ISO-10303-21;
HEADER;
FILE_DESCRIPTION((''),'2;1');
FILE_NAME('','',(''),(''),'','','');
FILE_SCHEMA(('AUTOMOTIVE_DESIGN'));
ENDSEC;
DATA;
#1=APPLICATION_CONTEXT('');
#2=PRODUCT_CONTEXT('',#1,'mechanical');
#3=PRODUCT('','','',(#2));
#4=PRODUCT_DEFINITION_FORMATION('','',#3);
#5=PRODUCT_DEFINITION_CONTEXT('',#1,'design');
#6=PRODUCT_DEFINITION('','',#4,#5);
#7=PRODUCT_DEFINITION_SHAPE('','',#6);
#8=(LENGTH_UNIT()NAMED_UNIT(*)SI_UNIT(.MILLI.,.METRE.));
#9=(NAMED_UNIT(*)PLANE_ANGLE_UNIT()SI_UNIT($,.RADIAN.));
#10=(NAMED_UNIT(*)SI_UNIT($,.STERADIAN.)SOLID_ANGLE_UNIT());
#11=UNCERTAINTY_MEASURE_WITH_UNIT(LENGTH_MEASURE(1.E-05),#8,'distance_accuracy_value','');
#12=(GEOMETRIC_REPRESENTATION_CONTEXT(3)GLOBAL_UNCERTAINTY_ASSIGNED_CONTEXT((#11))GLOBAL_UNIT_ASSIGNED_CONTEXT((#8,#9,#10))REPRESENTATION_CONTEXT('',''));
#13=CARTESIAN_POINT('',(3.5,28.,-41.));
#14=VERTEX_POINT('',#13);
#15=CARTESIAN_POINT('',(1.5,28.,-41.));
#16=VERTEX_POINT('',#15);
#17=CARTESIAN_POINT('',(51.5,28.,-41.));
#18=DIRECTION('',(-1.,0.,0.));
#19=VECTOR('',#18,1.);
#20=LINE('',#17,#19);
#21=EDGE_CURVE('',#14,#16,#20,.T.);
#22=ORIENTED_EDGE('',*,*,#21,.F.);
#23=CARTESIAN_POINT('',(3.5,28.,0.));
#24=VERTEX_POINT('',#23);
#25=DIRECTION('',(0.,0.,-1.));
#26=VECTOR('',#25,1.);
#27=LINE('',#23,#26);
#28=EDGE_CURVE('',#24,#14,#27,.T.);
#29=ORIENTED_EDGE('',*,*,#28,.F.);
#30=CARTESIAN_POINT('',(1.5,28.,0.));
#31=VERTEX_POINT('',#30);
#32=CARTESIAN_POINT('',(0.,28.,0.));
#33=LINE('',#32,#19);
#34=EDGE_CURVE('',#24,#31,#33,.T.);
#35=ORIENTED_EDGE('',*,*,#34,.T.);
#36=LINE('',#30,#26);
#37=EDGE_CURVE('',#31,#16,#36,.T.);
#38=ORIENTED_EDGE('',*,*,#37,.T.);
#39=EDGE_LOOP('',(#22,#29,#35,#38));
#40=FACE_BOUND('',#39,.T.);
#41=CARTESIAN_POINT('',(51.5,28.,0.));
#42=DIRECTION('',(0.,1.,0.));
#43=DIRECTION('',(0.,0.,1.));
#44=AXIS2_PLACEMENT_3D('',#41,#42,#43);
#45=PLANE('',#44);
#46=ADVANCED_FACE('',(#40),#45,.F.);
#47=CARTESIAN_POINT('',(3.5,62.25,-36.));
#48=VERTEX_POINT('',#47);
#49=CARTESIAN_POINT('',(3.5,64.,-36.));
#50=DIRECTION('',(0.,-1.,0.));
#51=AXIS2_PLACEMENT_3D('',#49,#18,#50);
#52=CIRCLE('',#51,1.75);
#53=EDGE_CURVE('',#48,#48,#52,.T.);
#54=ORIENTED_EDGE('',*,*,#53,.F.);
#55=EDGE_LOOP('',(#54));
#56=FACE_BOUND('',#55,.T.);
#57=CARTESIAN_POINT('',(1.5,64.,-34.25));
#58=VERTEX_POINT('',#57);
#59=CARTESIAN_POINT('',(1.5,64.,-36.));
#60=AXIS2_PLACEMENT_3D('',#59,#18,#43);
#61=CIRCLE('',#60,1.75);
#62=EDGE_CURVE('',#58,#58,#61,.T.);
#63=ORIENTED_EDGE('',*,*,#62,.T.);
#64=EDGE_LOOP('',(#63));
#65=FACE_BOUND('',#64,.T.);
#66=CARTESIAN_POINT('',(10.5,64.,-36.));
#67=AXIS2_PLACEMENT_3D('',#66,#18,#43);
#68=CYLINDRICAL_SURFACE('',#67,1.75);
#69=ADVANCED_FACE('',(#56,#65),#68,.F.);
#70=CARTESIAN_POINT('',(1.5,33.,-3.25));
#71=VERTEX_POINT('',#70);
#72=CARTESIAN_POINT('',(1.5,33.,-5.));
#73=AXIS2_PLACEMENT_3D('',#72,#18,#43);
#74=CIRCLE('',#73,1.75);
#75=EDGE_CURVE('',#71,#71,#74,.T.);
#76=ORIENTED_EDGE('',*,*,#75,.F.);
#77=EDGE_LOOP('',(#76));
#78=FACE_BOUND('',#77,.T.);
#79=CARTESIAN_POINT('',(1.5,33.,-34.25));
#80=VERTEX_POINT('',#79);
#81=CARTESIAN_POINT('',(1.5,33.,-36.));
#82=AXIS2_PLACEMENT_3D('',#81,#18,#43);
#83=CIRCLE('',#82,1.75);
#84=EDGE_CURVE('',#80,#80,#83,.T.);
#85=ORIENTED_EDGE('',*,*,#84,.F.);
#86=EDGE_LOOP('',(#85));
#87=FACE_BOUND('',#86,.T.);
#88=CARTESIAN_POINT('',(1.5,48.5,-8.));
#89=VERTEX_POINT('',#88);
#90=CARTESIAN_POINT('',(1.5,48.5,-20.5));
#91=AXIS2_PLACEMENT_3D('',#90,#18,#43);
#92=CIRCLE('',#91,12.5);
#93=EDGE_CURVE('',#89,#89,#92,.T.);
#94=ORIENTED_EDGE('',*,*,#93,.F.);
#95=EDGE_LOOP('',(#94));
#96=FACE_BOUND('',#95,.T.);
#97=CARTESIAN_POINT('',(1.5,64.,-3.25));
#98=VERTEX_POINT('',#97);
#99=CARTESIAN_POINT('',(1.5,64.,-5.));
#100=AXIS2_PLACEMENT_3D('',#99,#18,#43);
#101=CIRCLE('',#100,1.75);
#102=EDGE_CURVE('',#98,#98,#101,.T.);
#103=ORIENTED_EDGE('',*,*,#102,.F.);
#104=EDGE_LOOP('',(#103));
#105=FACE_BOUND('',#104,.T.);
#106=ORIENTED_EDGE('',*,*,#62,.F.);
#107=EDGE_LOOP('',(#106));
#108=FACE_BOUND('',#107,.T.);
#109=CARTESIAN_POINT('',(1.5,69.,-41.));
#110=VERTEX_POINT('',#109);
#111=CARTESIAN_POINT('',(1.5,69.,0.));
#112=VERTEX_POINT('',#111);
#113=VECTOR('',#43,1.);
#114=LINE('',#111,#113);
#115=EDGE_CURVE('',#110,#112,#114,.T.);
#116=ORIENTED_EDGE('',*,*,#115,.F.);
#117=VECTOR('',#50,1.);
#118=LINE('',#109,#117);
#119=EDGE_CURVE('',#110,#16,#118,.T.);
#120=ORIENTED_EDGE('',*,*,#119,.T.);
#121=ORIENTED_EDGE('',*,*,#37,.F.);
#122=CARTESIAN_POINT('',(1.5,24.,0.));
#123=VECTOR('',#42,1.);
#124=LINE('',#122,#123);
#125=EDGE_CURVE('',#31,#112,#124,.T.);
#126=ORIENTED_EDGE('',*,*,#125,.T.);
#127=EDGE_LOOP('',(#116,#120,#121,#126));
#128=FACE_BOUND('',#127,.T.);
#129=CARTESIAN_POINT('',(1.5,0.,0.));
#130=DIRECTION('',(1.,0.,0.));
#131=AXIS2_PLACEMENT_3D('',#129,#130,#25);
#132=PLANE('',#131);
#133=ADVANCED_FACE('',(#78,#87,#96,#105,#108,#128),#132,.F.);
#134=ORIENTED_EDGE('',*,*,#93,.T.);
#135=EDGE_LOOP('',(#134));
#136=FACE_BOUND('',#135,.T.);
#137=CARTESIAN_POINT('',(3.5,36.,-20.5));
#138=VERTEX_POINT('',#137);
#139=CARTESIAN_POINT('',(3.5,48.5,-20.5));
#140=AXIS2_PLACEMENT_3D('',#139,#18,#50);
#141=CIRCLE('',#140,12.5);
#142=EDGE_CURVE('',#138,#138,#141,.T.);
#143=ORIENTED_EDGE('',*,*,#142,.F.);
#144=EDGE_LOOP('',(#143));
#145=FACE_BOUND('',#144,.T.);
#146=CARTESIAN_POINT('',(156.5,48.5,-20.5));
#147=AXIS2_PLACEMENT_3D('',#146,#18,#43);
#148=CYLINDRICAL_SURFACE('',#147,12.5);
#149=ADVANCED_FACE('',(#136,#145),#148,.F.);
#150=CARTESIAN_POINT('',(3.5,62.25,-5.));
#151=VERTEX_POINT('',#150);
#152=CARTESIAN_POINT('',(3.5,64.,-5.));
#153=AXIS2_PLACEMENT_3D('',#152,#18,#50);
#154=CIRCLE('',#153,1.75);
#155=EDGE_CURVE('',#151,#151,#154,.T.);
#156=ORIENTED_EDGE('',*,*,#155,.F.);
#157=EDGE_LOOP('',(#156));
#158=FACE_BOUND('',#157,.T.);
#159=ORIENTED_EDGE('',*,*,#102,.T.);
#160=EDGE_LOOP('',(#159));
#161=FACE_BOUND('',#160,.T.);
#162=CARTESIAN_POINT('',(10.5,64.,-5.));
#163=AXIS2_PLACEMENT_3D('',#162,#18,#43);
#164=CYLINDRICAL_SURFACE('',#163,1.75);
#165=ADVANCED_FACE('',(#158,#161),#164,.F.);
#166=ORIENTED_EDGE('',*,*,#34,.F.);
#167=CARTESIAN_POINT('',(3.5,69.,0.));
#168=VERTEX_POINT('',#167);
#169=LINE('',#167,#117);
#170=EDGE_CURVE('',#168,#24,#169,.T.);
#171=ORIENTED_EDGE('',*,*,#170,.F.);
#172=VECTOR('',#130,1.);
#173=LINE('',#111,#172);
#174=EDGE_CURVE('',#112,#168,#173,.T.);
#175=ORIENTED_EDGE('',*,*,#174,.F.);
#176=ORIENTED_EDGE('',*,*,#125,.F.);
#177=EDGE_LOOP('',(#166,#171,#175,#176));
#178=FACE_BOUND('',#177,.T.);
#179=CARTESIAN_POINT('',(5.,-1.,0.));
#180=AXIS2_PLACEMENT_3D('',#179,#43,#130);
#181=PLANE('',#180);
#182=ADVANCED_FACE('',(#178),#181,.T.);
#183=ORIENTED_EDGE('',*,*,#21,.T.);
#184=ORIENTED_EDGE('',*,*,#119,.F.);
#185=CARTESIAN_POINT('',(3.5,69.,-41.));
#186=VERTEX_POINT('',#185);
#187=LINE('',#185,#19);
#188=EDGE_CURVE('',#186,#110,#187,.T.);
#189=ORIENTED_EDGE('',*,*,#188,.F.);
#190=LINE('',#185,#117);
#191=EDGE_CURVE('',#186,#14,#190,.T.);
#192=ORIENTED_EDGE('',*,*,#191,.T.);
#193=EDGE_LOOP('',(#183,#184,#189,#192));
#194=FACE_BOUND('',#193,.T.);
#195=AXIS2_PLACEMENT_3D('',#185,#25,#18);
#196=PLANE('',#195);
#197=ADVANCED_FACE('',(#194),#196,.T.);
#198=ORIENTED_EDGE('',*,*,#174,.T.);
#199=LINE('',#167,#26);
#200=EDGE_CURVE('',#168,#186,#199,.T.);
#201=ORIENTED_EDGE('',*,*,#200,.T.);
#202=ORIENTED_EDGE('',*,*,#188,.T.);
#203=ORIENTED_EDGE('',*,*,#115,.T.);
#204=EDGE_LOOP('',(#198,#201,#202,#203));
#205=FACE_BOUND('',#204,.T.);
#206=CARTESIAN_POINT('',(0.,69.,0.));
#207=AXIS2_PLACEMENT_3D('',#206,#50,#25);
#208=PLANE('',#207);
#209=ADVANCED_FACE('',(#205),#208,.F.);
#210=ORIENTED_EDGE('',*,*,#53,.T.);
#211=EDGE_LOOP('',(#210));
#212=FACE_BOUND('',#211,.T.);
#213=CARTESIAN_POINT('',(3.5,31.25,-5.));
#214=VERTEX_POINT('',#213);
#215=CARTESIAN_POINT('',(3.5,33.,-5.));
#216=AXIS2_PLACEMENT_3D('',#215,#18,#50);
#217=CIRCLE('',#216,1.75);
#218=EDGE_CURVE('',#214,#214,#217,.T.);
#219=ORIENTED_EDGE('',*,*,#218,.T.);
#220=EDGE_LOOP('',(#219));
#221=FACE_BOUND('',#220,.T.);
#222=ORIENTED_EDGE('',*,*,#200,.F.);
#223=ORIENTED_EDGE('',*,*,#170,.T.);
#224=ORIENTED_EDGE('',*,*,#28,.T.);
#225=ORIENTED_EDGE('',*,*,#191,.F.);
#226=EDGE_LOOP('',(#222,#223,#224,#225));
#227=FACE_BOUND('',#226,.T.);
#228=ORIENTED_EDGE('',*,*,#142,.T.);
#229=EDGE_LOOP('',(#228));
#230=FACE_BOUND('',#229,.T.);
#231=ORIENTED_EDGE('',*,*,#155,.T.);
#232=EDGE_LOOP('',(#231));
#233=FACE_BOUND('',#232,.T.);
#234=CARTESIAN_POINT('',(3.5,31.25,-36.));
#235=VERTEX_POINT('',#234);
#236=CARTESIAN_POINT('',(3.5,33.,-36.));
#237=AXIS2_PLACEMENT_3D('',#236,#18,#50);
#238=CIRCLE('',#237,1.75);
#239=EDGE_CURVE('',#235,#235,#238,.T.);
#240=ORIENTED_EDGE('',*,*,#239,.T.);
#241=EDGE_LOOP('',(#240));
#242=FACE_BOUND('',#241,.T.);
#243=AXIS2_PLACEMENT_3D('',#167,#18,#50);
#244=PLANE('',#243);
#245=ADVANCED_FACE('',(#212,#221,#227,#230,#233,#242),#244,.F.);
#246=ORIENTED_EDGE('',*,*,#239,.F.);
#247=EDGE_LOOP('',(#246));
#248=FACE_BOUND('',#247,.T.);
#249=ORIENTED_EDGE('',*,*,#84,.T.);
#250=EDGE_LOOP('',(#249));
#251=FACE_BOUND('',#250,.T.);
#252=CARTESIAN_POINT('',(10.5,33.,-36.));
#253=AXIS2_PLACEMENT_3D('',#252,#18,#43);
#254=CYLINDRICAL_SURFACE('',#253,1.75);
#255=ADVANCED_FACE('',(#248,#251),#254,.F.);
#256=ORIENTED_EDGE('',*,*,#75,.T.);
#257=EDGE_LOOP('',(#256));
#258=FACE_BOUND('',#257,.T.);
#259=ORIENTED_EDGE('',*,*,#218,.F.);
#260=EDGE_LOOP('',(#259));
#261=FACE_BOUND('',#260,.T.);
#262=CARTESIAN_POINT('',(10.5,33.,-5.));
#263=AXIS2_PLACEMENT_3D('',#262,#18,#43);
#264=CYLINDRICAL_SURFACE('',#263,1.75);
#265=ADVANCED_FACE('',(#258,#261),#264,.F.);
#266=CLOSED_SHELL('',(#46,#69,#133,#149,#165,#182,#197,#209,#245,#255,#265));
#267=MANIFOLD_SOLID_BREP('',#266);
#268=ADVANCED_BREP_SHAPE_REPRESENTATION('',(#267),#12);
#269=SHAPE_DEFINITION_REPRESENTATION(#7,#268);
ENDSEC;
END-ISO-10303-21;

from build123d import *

# Parameters (mm, degrees)
BOSS_EXTRUDE2_DEPTH          = 8
BOSS_EXTRUDE2_DEPTH_BACK     = 1
SKETCH1_R                    = 2.5
CUT_EXTRUDE1_DEPTH           = 79.300702423
CUT_EXTRUDE1_DEPTH_BACK      = 79.300702423
SKETCH2_R                    = 2.5
SKETCH3_R                    = 3.25
CUT_EXTRUDE5_DEPTH           = 15
CUT_EXTRUDE5_DRAFT           = -0.0573
CUT_EXTRUDE5_PROFILE_2_DEPTH = 15
CUT_EXTRUDE5_PROFILE_2_DRAFT = -0.0573
SKETCH5_W                    = 4.5
SKETCH5_H                    = 6.5
BOSS_EXTRUDE3_DEPTH          = 14.5
SKETCH6_R                    = 4
CUT_EXTRUDE4_DEPTH           = 1.5
SKETCH12_W                   = 10.5
SKETCH12_H                   = 30
BOSS_EXTRUDE7_DEPTH          = 9
SKETCH15_W                   = 9
SKETCH15_H                   = 6.5
BOSS_EXTRUDE8_DEPTH          = 3.5
BOSS_EXTRUDE9_DEPTH          = 54
FILLET4_R                    = 5
SKETCH18_W                   = 9.873697418
SKETCH18_H                   = 6.5
BOSS_EXTRUDE11_DEPTH         = 0.5
SKETCH20_W                   = 4
SKETCH20_H                   = 17.5
BOSS_EXTRUDE12_DEPTH         = 18
BOSS_EXTRUDE13_DEPTH         = 11
BOSS_EXTRUDE13_DEPTH_BACK    = 4
SKETCH22_W                   = 17.5
SKETCH22_H                   = 4
SKETCH25_W                   = 2
SKETCH25_H                   = 17.5
BOSS_EXTRUDE14_DEPTH         = 41
SKETCH28_W                   = 41
SKETCH28_H                   = 45
BOSS_EXTRUDE15_DEPTH         = 2
SKETCH29_R                   = 1.75
CUT_EXTRUDE8_DEPTH           = 9
BOSS_EXTRUDE16_DEPTH         = 9
BOSS_EXTRUDE16_DEPTH_BACK    = 4
SKETCH30_W                   = 17.5
SKETCH30_H                   = 2
CUT_EXTRUDE9_DEPTH           = 9
SKETCH32_W                   = 13
SKETCH32_H                   = 4
BOSS_EXTRUDE17_DEPTH         = 23.5
SKETCH33_W                   = 0.5
SKETCH33_H                   = 17.5
BOSS_EXTRUDE18_DEPTH         = 20
SKETCH34_W                   = 4.5
SKETCH34_H                   = 25
SKETCH34_W_2                 = 15.5
SKETCH34_H_2                 = 4
SKETCH34_W_3                 = 9
BOSS_EXTRUDE19_DEPTH         = 26
SKETCH35_W                   = 9.873697418
SKETCH35_H                   = 0.5
BOSS_EXTRUDE20_DEPTH         = 47.5
BOSS_EXTRUDE21_DEPTH         = 47.5
SKETCH38_W                   = 0.419549816
SKETCH38_H                   = 18.5
CUT_EXTRUDE10_DEPTH          = 90.5
SKETCH39_W                   = 4
SKETCH39_H                   = 4
BOSS_EXTRUDE23_DEPTH         = 47.5
SKETCH46_W                   = 22.5
SKETCH46_H                   = 9
SKETCH46_W_2                 = 5
BOSS_EXTRUDE26_DEPTH         = 11.5
SKETCH47_W                   = 27.5
SKETCH47_H                   = 9
BOSS_EXTRUDE27_DEPTH         = 11
SKETCH48_W                   = 5
SKETCH48_H                   = 6.5
BOSS_EXTRUDE31_DEPTH         = 18.5
SKETCH50_R                   = 4
CUT_EXTRUDE11_DEPTH          = 1.5
SKETCH51_W                   = 9.626242636
SKETCH51_H                   = 9.125298808
BOSS_EXTRUDE32_DEPTH         = 1.5
BOSS_EXTRUDE35_DEPTH         = 47.5
SKETCH55_W                   = 9.873697418
SKETCH55_H                   = 0.5
CUT_EXTRUDE12_DEPTH          = 47.5
SKETCH56_W                   = 0.5
SKETCH56_H                   = 20
BOSS_EXTRUDE36_DEPTH         = 43.5
BOSS_EXTRUDE37_DEPTH         = 47.5
SKETCH58_W                   = 0.715052156
SKETCH58_H                   = 9.51279705
CUT_EXTRUDE13_DEPTH          = 4
CUT_EXTRUDE15_DEPTH          = 47.5
SKETCH60_W                   = 0.215052156
SKETCH60_H                   = 9.51279705
CUT_EXTRUDE16_DEPTH          = 47.5
CUT_EXTRUDE17_DEPTH          = 47.5
SKETCH62_W                   = 8
SKETCH62_H                   = 8
CUT_EXTRUDE18_DEPTH          = 47.5
SKETCH63_W                   = 13
SKETCH63_H                   = 4
CUT_EXTRUDE20_DEPTH          = 17
SKETCH64_W                   = 1
SKETCH64_H                   = 1.5
BOSS_EXTRUDE38_DEPTH         = 6.5
SKETCH65_W                   = 7
SKETCH65_H                   = 3
CUT_EXTRUDE21_DEPTH          = 1.5
BOSS_EXTRUDE39_START         = -2
BOSS_EXTRUDE39_DEPTH         = 2
CUT_EXTRUDE22_DEPTH          = 155
CUT_EXTRUDE23_DEPTH          = 97.458540317
CUT_EXTRUDE23_DEPTH_BACK     = 97.458540317
SKETCH69_W                   = 41
SKETCH69_H                   = 4
SKETCH69_W_2                 = 26
CUT_EXTRUDE24_DEPTH          = 95.562148876


with BuildPart() as part:
    # Sketch1 → Boss-Extrude2 (new, two sides: drawn at the far end of the back side and taken through both)
    with BuildSketch(Plane(origin=(0, 0, 0), x_dir=(1, 0, 0), z_dir=(0, 1, 0)).offset(-BOSS_EXTRUDE2_DEPTH_BACK)):
        with BuildLine():
            Line((5, 0), (50, 0))
            ThreePointArc((50, 0), (53.535533906, 1.464466094), (55, 5))
            Line((55, 5), (55, 50))
            ThreePointArc((55, 50), (53.535533906, 53.535533906), (50, 55))
            Line((50, 55), (5, 55))
            ThreePointArc((5, 55), (1.464466094, 53.535533906), (0, 50))
            Line((0, 50), (0, 5))
            ThreePointArc((0, 5), (1.464466094, 1.464466094), (5, 0))
        make_face()
        with Locations(Location((7.5, 47.5, 0), (0, 0, 270))):
            Circle(SKETCH1_R, mode=Mode.SUBTRACT)
        with Locations(Location((47.5, 47.5, 0), (0, 0, 270))):
            Circle(SKETCH1_R, mode=Mode.SUBTRACT)
        with Locations(Location((47.5, 7.5, 0), (0, 0, 270))):
            Circle(SKETCH1_R, mode=Mode.SUBTRACT)
        with Locations(Location((7.5, 7.5, 0), (0, 0, 270))):
            Circle(SKETCH1_R, mode=Mode.SUBTRACT)
    extrude(amount=BOSS_EXTRUDE2_DEPTH + BOSS_EXTRUDE2_DEPTH_BACK)

    # Sketch2 → Cut-Extrude1 (cut, two sides: drawn at the far end of the back side and taken through both)
    with BuildSketch(Plane(origin=(0, 8, 0), x_dir=(1, 0, 0), z_dir=(0, 1, 0)).offset(-CUT_EXTRUDE1_DEPTH_BACK)):
        with BuildLine():
            Line((0, 50), (0, 27.5))
            Line((0, 27.5), (55, 27.5))
            Line((55, 27.5), (55, 50))
            ThreePointArc((55, 50), (53.535533906, 53.535533906), (50, 55))
            Line((50, 55), (5, 55))
            ThreePointArc((5, 55), (1.464466094, 53.535533906), (0, 50))
        make_face()
        with Locations((7.5, 47.5)):
            Circle(SKETCH2_R, mode=Mode.SUBTRACT)
        with Locations((47.5, 47.5)):
            Circle(SKETCH2_R, mode=Mode.SUBTRACT)
    extrude(amount=CUT_EXTRUDE1_DEPTH + CUT_EXTRUDE1_DEPTH_BACK, mode=Mode.SUBTRACT)


with BuildPart() as cut_extrude5_tool:
    # Sketch3 → Cut-Extrude5 (with draft: the straight prism first)
    with BuildSketch(Plane(origin=(0, 0, -27.5), x_dir=(-1, 0, 0), z_dir=(0, 0, -1))):
        with Locations((-37.5, 3.5)):
            Circle(SKETCH3_R)
    extrude(amount=-CUT_EXTRUDE5_DEPTH)
    # Cut-Extrude5: the draft: its side faces are tilted about the plane it starts from
    cut_extrude5_sides = [cut_extrude5_tool.faces().sort_by_distance(p)[0] for p in [
        (40.75, 3.5, -20),
    ]]
    draft(cut_extrude5_sides, Plane(origin=(0, 0, -27.5), x_dir=(-1, 0, 0), z_dir=(0, 0, -1)), CUT_EXTRUDE5_DRAFT)


with BuildPart() as part_1:
    add(part.part)

    # Cut-Extrude5: cut by cut_extrude5_tool
    add(cut_extrude5_tool.part, mode=Mode.SUBTRACT)


with BuildPart() as cut_extrude5_profile_2_tool:
    # Sketch3 → Cut-Extrude5 profile 2 (with draft: the straight prism first)
    with BuildSketch(Plane(origin=(0, 0, -27.5), x_dir=(-1, 0, 0), z_dir=(0, 0, -1))):
        with Locations((-17.5, 3.5)):
            Circle(SKETCH3_R)
    extrude(amount=-CUT_EXTRUDE5_PROFILE_2_DEPTH)
    # Cut-Extrude5 profile 2: the draft: its side faces are tilted about the plane it starts from
    cut_extrude5_profile_2_sides = [cut_extrude5_profile_2_tool.faces().sort_by_distance(p)[0] for p in [
        (20.75, 3.5, -20),
    ]]
    draft(cut_extrude5_profile_2_sides, Plane(origin=(0, 0, -27.5), x_dir=(-1, 0, 0), z_dir=(0, 0, -1)), CUT_EXTRUDE5_PROFILE_2_DRAFT)


with BuildPart() as part_2:
    add(part_1.part)

    # Cut-Extrude5 profile 2: cut by cut_extrude5_profile_2_tool
    add(cut_extrude5_profile_2_tool.part, mode=Mode.SUBTRACT)

    # Sketch5 → Boss-Extrude3 (add)
    with BuildSketch(Plane(origin=(0, 8, 0), x_dir=(1, 0, 0), z_dir=(0, 1, 0))):
        with Locations((25.25, 20.75)):
            Rectangle(SKETCH5_W, SKETCH5_H)
        with Locations((29.75, 20.75)):
            Rectangle(SKETCH5_W, SKETCH5_H)
    extrude(amount=BOSS_EXTRUDE3_DEPTH)

    # Sketch6 → Cut-Extrude4 (cut)
    with BuildSketch(Plane(origin=(0, 0, -24), x_dir=(-1, 0, 0), z_dir=(0, 0, -1))):
        with Locations((-27.5, 17)):
            Circle(SKETCH6_R)
    extrude(amount=-CUT_EXTRUDE4_DEPTH, mode=Mode.SUBTRACT)

    # Sketch12 → Boss-Extrude7 (add)
    with BuildSketch(Plane(origin=(0, 8, 0), x_dir=(1, 0, 0), z_dir=(0, 1, 0))):
        with Locations((32.75, -15)):
            Rectangle(SKETCH12_W, SKETCH12_H)
        with Locations((22.25, -15)):
            Rectangle(SKETCH12_W, SKETCH12_H)
    extrude(amount=-BOSS_EXTRUDE7_DEPTH)

    # Sketch15 → Boss-Extrude8 (add)
    with BuildSketch(Plane(origin=(0, 22.5, 0), x_dir=(1, 0, 0), z_dir=(0, 1, 0))):
        with Locations((27.5, 20.75)):
            Rectangle(SKETCH15_W, SKETCH15_H)
    extrude(amount=BOSS_EXTRUDE8_DEPTH)

    # Sketch11 → Boss-Extrude9 (add)
    with BuildSketch(Plane(origin=(0, 0, -24), x_dir=(-1, 0, 0), z_dir=(0, 0, -1))):
        Polygon((-32.436848709, 26), (-29.5, 22.5), (-29.5, 26), align=None)
        Polygon((-29.5, 22.5), (-27.5, 22.5), (-25.5, 22.5), (-25.5, 26), (-29.5, 26), align=None)
        Polygon((-25.5, 26), (-25.5, 22.5), (-22.563151291, 26), align=None)
    extrude(amount=-BOSS_EXTRUDE9_DEPTH)

    # Fillet4
    fillet4_edges = [part_2.edges().sort_by_distance(p)[0] for p in [
        (27.5, -1, 30),
    ]]
    fillet(fillet4_edges, radius=FILLET4_R)

    # Sketch18 → Boss-Extrude11 (add)
    with BuildSketch(Plane(origin=(0, 26, 0), x_dir=(1, 0, 0), z_dir=(0, 1, 0))):
        with Locations((27.5, 20.75)):
            Rectangle(SKETCH18_W, SKETCH18_H)
    extrude(amount=BOSS_EXTRUDE11_DEPTH)

    # Sketch20 → Boss-Extrude12 (add)
    with BuildSketch(Plane(origin=(0, 8, 0), x_dir=(1, 0, 0), z_dir=(0, 1, 0))):
        with Locations((14.5, 8.75)):
            Rectangle(SKETCH20_W, SKETCH20_H)
        with Locations((40.5, 8.75)):
            Rectangle(SKETCH20_W, SKETCH20_H)
    extrude(amount=BOSS_EXTRUDE12_DEPTH)

    # Sketch22 → Boss-Extrude13 (add, two sides: drawn at the far end of the back side and taken through both)
    with BuildSketch(Plane.ZY.offset(-12.5).offset(-BOSS_EXTRUDE13_DEPTH_BACK)):
        with Locations((-8.75, 26)):
            Rectangle(SKETCH22_W, SKETCH22_H)
    extrude(amount=BOSS_EXTRUDE13_DEPTH + BOSS_EXTRUDE13_DEPTH_BACK)

    # Sketch25 → Boss-Extrude14 (add)
    with BuildSketch(Plane(origin=(0, 28, 0), x_dir=(1, 0, 0), z_dir=(0, 1, 0))):
        with Locations((2.5, 8.75)):
            Rectangle(SKETCH25_W, SKETCH25_H)
    extrude(amount=BOSS_EXTRUDE14_DEPTH)

    # Sketch28 → Boss-Extrude15 (add)
    with BuildSketch(Plane.ZY.offset(-1.5)):
        with Locations((-20.5, 46.5)):
            Rectangle(SKETCH28_W, SKETCH28_H)
    extrude(amount=-BOSS_EXTRUDE15_DEPTH)

    # Sketch29 → Cut-Extrude8 (cut)
    with BuildSketch(Plane.ZY.offset(-1.5)):
        with Locations((-36, 33)):
            Circle(SKETCH29_R)
        with Locations((-5, 64)):
            Circle(SKETCH29_R)
        with Locations((-5, 33)):
            Circle(SKETCH29_R)
        with Locations((-36, 64)):
            Circle(SKETCH29_R)
    extrude(amount=-CUT_EXTRUDE8_DEPTH, mode=Mode.SUBTRACT)

    # Sketch30 → Boss-Extrude16 (add, two sides: drawn at the far end of the back side and taken through both)
    with BuildSketch(Plane(origin=(42.5, 0, 0), x_dir=(0, 0, -1), z_dir=(1, 0, 0)).offset(-BOSS_EXTRUDE16_DEPTH_BACK)):
        with Locations((8.75, 25)):
            Rectangle(SKETCH30_W, SKETCH30_H)
        with Locations((8.75, 27)):
            Rectangle(SKETCH30_W, SKETCH30_H)
    extrude(amount=BOSS_EXTRUDE16_DEPTH + BOSS_EXTRUDE16_DEPTH_BACK)

    # Sketch31 → Cut-Extrude9 (cut)
    with BuildSketch(Plane(origin=(3.5, 0, 0), x_dir=(0, 0, -1), z_dir=(1, 0, 0))):
        with BuildLine():
            ThreePointArc((30.5, 47), (27.571067812, 54.071067812), (20.5, 57))
            Line((20.5, 57), (20.5, 47))
            Line((20.5, 47), (30.5, 47))
        make_face()
        with BuildLine():
            Line((20.5, 47), (20.5, 57))
            ThreePointArc((20.5, 57), (13.428932188, 39.928932188), (30.5, 47))
            Line((30.5, 47), (20.5, 47))
        make_face()
    extrude(amount=-CUT_EXTRUDE9_DEPTH, mode=Mode.SUBTRACT)

    # Sketch32 → Boss-Extrude17 (add)
    with BuildSketch(Plane(origin=(0, 0, -17.5), x_dir=(-1, 0, 0), z_dir=(0, 0, -1))):
        with Locations((-10, 26)):
            Rectangle(SKETCH32_W, SKETCH32_H)
    extrude(amount=BOSS_EXTRUDE17_DEPTH)

    # Sketch33 → Boss-Extrude18 (add)
    with BuildSketch(Plane(origin=(0, 8, 0), x_dir=(1, 0, 0), z_dir=(0, 1, 0))):
        with Locations((38.25, 8.75)):
            Rectangle(SKETCH33_W, SKETCH33_H)
        with Locations((16.75, 8.75)):
            Rectangle(SKETCH33_W, SKETCH33_H)
    extrude(amount=BOSS_EXTRUDE18_DEPTH)

    # Sketch34 → Boss-Extrude19 (add)
    with BuildSketch(Plane.XY):
        with Locations((14.75, 11.5)):
            Rectangle(SKETCH34_W, SKETCH34_H)
        with Locations((9.25, 26)):
            Rectangle(SKETCH34_W_2, SKETCH34_H_2)
        Polygon((42.5, 24), (42.5, 28), (38, 28), (38, 8), (38, -1), (42.5, -1), (42.5, 8), align=None)
        with Locations((47, 26)):
            Rectangle(SKETCH34_W_3, SKETCH34_H_2)
    extrude(amount=BOSS_EXTRUDE19_DEPTH)

    # Sketch35 → Boss-Extrude20 (add)
    with BuildSketch(Plane.XY.offset(-17.5)):
        with Locations((27.5, 26.25)):
            Rectangle(SKETCH35_W, SKETCH35_H)
    extrude(amount=BOSS_EXTRUDE20_DEPTH)

    # Sketch37 → Boss-Extrude21 (add)
    with BuildSketch(Plane.XY.offset(-17.5)):
        Polygon((23, 8), (25.5, 8), (25.5, 12), (23, 9.020616019), align=None)
        Polygon((25.5, 8), (27.5, 8), (29.5, 8), (29.5, 12), (25.5, 12), align=None)
        Polygon((29.5, 12), (29.5, 8), (32, 8), (32, 9.020616019), align=None)
        Polygon((29.5, 8), (27.5, 8), (25.5, 8), (23, 8), (23, 9.020616019), (21.863844179, 7.666598237), (33.136155821, 7.666598237), (32, 9.020616019), (32, 8), align=None)
    extrude(amount=BOSS_EXTRUDE21_DEPTH)

    # Sketch38 → Cut-Extrude10 (cut)
    with BuildSketch(Plane.XY.offset(30)):
        with Locations((22.353376383, 17.25)):
            Rectangle(SKETCH38_W, SKETCH38_H)
        with Locations((32.646623617, 17.25)):
            Rectangle(SKETCH38_W, SKETCH38_H)
    extrude(amount=-CUT_EXTRUDE10_DEPTH, mode=Mode.SUBTRACT)

    # Sketch39 → Boss-Extrude23 (add)
    with BuildSketch(Plane.XY.offset(30)):
        Polygon((21, 19.25), (17.715052156, 22.006398525), (17, 22.006398525), (17, 19.25), align=None)
        with Locations((19, 17.25)):
            Rectangle(SKETCH39_W, SKETCH39_H)
        Polygon((17.715052156, 12.493601475), (21, 15.25), (17, 15.25), (17, 12.493601475), align=None)
        Polygon((37.284947844, 12.493601475), (38, 12.493601475), (38, 15.25), (34, 15.25), align=None)
        Polygon((38, 17.25), (38, 19.25), (34, 19.25), (34, 15.25), (38, 15.25), align=None)
        Polygon((38, 19.25), (38, 22.006398525), (37.284947844, 22.006398525), (34, 19.25), align=None)
    extrude(amount=-BOSS_EXTRUDE23_DEPTH)

    # Sketch46 → Boss-Extrude26 (add)
    with BuildSketch(Plane.ZY):
        with Locations((-16.25, 3.5)):
            Rectangle(SKETCH46_W, SKETCH46_H)
        with Locations((-2.5, 3.5)):
            Rectangle(SKETCH46_W_2, SKETCH46_H)
    extrude(amount=-BOSS_EXTRUDE26_DEPTH)

    # Sketch47 → Boss-Extrude27 (add)
    with BuildSketch(Plane.ZY):
        with Locations((-13.75, 3.5)):
            Rectangle(SKETCH47_W, SKETCH47_H)
    extrude(amount=BOSS_EXTRUDE27_DEPTH)

    # Sketch48 → Boss-Extrude31 (add)
    with BuildSketch(Plane(origin=(0, 8, 0), x_dir=(1, 0, 0), z_dir=(0, 1, 0))):
        Polygon((42.5, 17.5), (42.5, 24), (32, 24), (32, 17.5), (32.436848709, 17.5), (38, 17.5), align=None)
        with Locations((45, 20.75)):
            Rectangle(SKETCH48_W, SKETCH48_H)
        Polygon((12.5, 24), (12.5, 17.5), (17, 17.5), (22.563151291, 17.5), (23, 17.5), (23, 24), align=None)
        with Locations((10, 20.75)):
            Rectangle(SKETCH48_W, SKETCH48_H)
    extrude(amount=BOSS_EXTRUDE31_DEPTH)

    # Sketch50 → Cut-Extrude11 (cut)
    with BuildSketch(Plane(origin=(0, 0, -24), x_dir=(-1, 0, 0), z_dir=(0, 0, -1))):
        with Locations((-17.5, 17)):
            Circle(SKETCH50_R)
        with Locations((-37.5, 17)):
            Circle(SKETCH50_R)
    extrude(amount=-CUT_EXTRUDE11_DEPTH, mode=Mode.SUBTRACT)

    # Sketch51 → Boss-Extrude32 (add)
    with BuildSketch(Plane(origin=(0, 0, -24), x_dir=(-1, 0, 0), z_dir=(0, 0, -1))):
        with Locations((-27.646184708, 17.114099589)):
            Rectangle(SKETCH51_W, SKETCH51_H)
    extrude(amount=-BOSS_EXTRUDE32_DEPTH)

    # Sketch54 → Boss-Extrude35 (add)
    with BuildSketch(Plane.XY.offset(-17.5)):
        Polygon((29.5, 22.5), (27.5, 22.5), (27.5, 14.5), (31.5, 14.5), (31.5, 22.5), align=None)
        Polygon((27.5, 14.5), (27.5, 22.5), (25.5, 22.5), (23.5, 22.5), (23.5, 14.5), align=None)
    extrude(amount=BOSS_EXTRUDE35_DEPTH)

    # Sketch55 → Cut-Extrude12 (cut)
    with BuildSketch(Plane.XY.offset(30)):
        with Locations((27.5, 26.25)):
            Rectangle(SKETCH55_W, SKETCH55_H)
    extrude(amount=-CUT_EXTRUDE12_DEPTH, mode=Mode.SUBTRACT)

    # Sketch56 → Boss-Extrude36 (add)
    with BuildSketch(Plane.XY.offset(26)):
        with Locations((37.75, 18)):
            Rectangle(SKETCH56_W, SKETCH56_H)
        with Locations((17.25, 18)):
            Rectangle(SKETCH56_W, SKETCH56_H)
    extrude(amount=-BOSS_EXTRUDE36_DEPTH)

    # Sketch57 → Boss-Extrude37 (add)
    with BuildSketch(Plane.XY.offset(30)):
        Polygon((35, 23.436848709), (31.5, 20.5), (31.5, 20.428787517), (35, 20.428787517), align=None)
        Polygon((35, 20.428787517), (31.5, 20.428787517), (31.5, 18.5), (35, 18.5), (35, 18.535606241), align=None)
        Polygon((35, 18.5), (31.5, 18.5), (31.5, 16.5), (35, 16.5), (35, 18.464393759), align=None)
        Polygon((35, 16.5), (31.5, 16.5), (35, 13.563151291), align=None)
        Polygon((32.436848709, 11), (29.5, 14.5), (25.5, 14.5), (22.563151291, 11), align=None)
        Polygon((20, 16.5), (23.5, 16.5), (23.5, 18.5), (23.5, 20.5), (20, 23.436848709), (20, 18.535606241), (20, 18.464393759), align=None)
        Polygon((20, 13.563151291), (23.5, 16.5), (20, 16.5), align=None)
    extrude(amount=-BOSS_EXTRUDE37_DEPTH)

    # Sketch58 → Cut-Extrude13 (cut)
    with BuildSketch(Plane.XY.offset(30)):
        with Locations((37.642473922, 17.25)):
            Rectangle(SKETCH58_W, SKETCH58_H)
        with Locations((17.357526078, 17.25)):
            Rectangle(SKETCH58_W, SKETCH58_H)
    extrude(amount=-CUT_EXTRUDE13_DEPTH, mode=Mode.SUBTRACT)

    # Sketch59 → Cut-Extrude15 (cut)
    with BuildSketch(Plane.XY.offset(30)):
        Polygon((37.284947844, 22.006398525), (35, 20.089099631), (35, 14.410900369), (37.284947844, 12.493601475), align=None)
        Polygon((17.715052156, 22.006398525), (20, 20.089099631), (20, 14.410900369), (17.715052156, 12.493601475), align=None)
    extrude(amount=-CUT_EXTRUDE15_DEPTH, mode=Mode.SUBTRACT)

    # Sketch60 → Cut-Extrude16 (cut)
    with BuildSketch(Plane.XY.offset(26)):
        with Locations((37.392473922, 17.25)):
            Rectangle(SKETCH60_W, SKETCH60_H)
        with Locations((17.607526078, 17.25)):
            Rectangle(SKETCH60_W, SKETCH60_H)
    extrude(amount=-CUT_EXTRUDE16_DEPTH, mode=Mode.SUBTRACT)

    # Sketch61 → Cut-Extrude17 (cut)
    with BuildSketch(Plane.XY.offset(30)):
        Polygon((32.436848709, 8), (22.563151291, 8), (22.563151291, 8.5), (24.660900369, 11), (30.339099631, 11), (32.436848709, 8.5), align=None)
    extrude(amount=-CUT_EXTRUDE17_DEPTH, mode=Mode.SUBTRACT)

    # Sketch62 → Cut-Extrude18 (cut)
    with BuildSketch(Plane.XY.offset(30)):
        with Locations((27.5, 18.5)):
            Rectangle(SKETCH62_W, SKETCH62_H)
    extrude(amount=-CUT_EXTRUDE18_DEPTH, mode=Mode.SUBTRACT)

    # Sketch63 → Cut-Extrude20 (cut)
    with BuildSketch(Plane(origin=(0, 0, -41), x_dir=(-1, 0, 0), z_dir=(0, 0, -1))):
        with Locations((-10, 26)):
            Rectangle(SKETCH63_W, SKETCH63_H)
    extrude(amount=-CUT_EXTRUDE20_DEPTH, mode=Mode.SUBTRACT)

    # Sketch64 → Boss-Extrude38 (add)
    with BuildSketch(Plane(origin=(0, 0, -17.5), x_dir=(-1, 0, 0), z_dir=(0, 0, -1))):
        with Locations((-17, 27.25)):
            Rectangle(SKETCH64_W, SKETCH64_H)
    extrude(amount=BOSS_EXTRUDE38_DEPTH)

    # Sketch65 → Cut-Extrude21 (cut)
    with BuildSketch(Plane(origin=(0, 28, 0), x_dir=(1, 0, 0), z_dir=(0, 1, 0))):
        with Locations((48, 16)):
            Rectangle(SKETCH65_W, SKETCH65_H)
    extrude(amount=-CUT_EXTRUDE21_DEPTH, mode=Mode.SUBTRACT)

    # Sketch66 → Boss-Extrude39 (add)
    with BuildSketch(Plane.ZY.offset(-1.5).offset(BOSS_EXTRUDE39_START)):
        with BuildLine():
            ThreePointArc((-30.5, 47), (-20.5, 37), (-10.5, 47))
            Line((-10.5, 47), (-30.5, 47))
        make_face()
        with BuildLine():
            Line((-30.5, 47), (-10.5, 47))
            ThreePointArc((-10.5, 47), (-20.5, 57), (-30.5, 47))
        make_face()
    extrude(amount=BOSS_EXTRUDE39_DEPTH)

    # Sketch67 → Cut-Extrude22 (cut)
    with BuildSketch(Plane.ZY.offset(-1.5)):
        with BuildLine():
            ThreePointArc((-33, 48.5), (-29.338834765, 39.661165235), (-20.5, 36))
            Line((-20.5, 36), (-20.5, 48.5))
            Line((-20.5, 48.5), (-33, 48.5))
        make_face()
        with BuildLine():
            Line((-20.5, 48.5), (-20.5, 36))
            ThreePointArc((-20.5, 36), (-11.661165235, 39.661165235), (-8, 48.5))
            Line((-8, 48.5), (-20.5, 48.5))
        make_face()
        with BuildLine():
            Line((-33, 48.5), (-20.5, 48.5))
            Line((-20.5, 48.5), (-20.5, 61))
            ThreePointArc((-20.5, 61), (-29.338834765, 57.338834765), (-33, 48.5))
        make_face()
        with BuildLine():
            Line((-20.5, 61), (-20.5, 48.5))
            Line((-20.5, 48.5), (-8, 48.5))
            ThreePointArc((-8, 48.5), (-11.661165235, 57.338834765), (-20.5, 61))
        make_face()
    extrude(amount=-CUT_EXTRUDE22_DEPTH, mode=Mode.SUBTRACT)

    # Sketch68 → Cut-Extrude23 (cut, two sides: drawn at the far end of the back side and taken through both)
    with BuildSketch(Plane.ZY.offset(-1.5).offset(-CUT_EXTRUDE23_DEPTH_BACK)):
        Polygon((26, 24), (0, 24), (-41, 24), (-41, -3.723852661), (62.997520678, -3.723852661), (62.997520678, 28), (26, 28), align=None)
    extrude(amount=CUT_EXTRUDE23_DEPTH + CUT_EXTRUDE23_DEPTH_BACK, mode=Mode.SUBTRACT)

    # Sketch69 → Cut-Extrude24 (cut, through all)
    with BuildSketch(Plane.ZY.offset(-1.5)):
        with Locations((-20.5, 26)):
            Rectangle(SKETCH69_W, SKETCH69_H)
        with Locations((13, 26)):
            Rectangle(SKETCH69_W_2, SKETCH69_H)
    extrude(amount=-CUT_EXTRUDE24_DEPTH, mode=Mode.SUBTRACT)


solid = part_2.part
